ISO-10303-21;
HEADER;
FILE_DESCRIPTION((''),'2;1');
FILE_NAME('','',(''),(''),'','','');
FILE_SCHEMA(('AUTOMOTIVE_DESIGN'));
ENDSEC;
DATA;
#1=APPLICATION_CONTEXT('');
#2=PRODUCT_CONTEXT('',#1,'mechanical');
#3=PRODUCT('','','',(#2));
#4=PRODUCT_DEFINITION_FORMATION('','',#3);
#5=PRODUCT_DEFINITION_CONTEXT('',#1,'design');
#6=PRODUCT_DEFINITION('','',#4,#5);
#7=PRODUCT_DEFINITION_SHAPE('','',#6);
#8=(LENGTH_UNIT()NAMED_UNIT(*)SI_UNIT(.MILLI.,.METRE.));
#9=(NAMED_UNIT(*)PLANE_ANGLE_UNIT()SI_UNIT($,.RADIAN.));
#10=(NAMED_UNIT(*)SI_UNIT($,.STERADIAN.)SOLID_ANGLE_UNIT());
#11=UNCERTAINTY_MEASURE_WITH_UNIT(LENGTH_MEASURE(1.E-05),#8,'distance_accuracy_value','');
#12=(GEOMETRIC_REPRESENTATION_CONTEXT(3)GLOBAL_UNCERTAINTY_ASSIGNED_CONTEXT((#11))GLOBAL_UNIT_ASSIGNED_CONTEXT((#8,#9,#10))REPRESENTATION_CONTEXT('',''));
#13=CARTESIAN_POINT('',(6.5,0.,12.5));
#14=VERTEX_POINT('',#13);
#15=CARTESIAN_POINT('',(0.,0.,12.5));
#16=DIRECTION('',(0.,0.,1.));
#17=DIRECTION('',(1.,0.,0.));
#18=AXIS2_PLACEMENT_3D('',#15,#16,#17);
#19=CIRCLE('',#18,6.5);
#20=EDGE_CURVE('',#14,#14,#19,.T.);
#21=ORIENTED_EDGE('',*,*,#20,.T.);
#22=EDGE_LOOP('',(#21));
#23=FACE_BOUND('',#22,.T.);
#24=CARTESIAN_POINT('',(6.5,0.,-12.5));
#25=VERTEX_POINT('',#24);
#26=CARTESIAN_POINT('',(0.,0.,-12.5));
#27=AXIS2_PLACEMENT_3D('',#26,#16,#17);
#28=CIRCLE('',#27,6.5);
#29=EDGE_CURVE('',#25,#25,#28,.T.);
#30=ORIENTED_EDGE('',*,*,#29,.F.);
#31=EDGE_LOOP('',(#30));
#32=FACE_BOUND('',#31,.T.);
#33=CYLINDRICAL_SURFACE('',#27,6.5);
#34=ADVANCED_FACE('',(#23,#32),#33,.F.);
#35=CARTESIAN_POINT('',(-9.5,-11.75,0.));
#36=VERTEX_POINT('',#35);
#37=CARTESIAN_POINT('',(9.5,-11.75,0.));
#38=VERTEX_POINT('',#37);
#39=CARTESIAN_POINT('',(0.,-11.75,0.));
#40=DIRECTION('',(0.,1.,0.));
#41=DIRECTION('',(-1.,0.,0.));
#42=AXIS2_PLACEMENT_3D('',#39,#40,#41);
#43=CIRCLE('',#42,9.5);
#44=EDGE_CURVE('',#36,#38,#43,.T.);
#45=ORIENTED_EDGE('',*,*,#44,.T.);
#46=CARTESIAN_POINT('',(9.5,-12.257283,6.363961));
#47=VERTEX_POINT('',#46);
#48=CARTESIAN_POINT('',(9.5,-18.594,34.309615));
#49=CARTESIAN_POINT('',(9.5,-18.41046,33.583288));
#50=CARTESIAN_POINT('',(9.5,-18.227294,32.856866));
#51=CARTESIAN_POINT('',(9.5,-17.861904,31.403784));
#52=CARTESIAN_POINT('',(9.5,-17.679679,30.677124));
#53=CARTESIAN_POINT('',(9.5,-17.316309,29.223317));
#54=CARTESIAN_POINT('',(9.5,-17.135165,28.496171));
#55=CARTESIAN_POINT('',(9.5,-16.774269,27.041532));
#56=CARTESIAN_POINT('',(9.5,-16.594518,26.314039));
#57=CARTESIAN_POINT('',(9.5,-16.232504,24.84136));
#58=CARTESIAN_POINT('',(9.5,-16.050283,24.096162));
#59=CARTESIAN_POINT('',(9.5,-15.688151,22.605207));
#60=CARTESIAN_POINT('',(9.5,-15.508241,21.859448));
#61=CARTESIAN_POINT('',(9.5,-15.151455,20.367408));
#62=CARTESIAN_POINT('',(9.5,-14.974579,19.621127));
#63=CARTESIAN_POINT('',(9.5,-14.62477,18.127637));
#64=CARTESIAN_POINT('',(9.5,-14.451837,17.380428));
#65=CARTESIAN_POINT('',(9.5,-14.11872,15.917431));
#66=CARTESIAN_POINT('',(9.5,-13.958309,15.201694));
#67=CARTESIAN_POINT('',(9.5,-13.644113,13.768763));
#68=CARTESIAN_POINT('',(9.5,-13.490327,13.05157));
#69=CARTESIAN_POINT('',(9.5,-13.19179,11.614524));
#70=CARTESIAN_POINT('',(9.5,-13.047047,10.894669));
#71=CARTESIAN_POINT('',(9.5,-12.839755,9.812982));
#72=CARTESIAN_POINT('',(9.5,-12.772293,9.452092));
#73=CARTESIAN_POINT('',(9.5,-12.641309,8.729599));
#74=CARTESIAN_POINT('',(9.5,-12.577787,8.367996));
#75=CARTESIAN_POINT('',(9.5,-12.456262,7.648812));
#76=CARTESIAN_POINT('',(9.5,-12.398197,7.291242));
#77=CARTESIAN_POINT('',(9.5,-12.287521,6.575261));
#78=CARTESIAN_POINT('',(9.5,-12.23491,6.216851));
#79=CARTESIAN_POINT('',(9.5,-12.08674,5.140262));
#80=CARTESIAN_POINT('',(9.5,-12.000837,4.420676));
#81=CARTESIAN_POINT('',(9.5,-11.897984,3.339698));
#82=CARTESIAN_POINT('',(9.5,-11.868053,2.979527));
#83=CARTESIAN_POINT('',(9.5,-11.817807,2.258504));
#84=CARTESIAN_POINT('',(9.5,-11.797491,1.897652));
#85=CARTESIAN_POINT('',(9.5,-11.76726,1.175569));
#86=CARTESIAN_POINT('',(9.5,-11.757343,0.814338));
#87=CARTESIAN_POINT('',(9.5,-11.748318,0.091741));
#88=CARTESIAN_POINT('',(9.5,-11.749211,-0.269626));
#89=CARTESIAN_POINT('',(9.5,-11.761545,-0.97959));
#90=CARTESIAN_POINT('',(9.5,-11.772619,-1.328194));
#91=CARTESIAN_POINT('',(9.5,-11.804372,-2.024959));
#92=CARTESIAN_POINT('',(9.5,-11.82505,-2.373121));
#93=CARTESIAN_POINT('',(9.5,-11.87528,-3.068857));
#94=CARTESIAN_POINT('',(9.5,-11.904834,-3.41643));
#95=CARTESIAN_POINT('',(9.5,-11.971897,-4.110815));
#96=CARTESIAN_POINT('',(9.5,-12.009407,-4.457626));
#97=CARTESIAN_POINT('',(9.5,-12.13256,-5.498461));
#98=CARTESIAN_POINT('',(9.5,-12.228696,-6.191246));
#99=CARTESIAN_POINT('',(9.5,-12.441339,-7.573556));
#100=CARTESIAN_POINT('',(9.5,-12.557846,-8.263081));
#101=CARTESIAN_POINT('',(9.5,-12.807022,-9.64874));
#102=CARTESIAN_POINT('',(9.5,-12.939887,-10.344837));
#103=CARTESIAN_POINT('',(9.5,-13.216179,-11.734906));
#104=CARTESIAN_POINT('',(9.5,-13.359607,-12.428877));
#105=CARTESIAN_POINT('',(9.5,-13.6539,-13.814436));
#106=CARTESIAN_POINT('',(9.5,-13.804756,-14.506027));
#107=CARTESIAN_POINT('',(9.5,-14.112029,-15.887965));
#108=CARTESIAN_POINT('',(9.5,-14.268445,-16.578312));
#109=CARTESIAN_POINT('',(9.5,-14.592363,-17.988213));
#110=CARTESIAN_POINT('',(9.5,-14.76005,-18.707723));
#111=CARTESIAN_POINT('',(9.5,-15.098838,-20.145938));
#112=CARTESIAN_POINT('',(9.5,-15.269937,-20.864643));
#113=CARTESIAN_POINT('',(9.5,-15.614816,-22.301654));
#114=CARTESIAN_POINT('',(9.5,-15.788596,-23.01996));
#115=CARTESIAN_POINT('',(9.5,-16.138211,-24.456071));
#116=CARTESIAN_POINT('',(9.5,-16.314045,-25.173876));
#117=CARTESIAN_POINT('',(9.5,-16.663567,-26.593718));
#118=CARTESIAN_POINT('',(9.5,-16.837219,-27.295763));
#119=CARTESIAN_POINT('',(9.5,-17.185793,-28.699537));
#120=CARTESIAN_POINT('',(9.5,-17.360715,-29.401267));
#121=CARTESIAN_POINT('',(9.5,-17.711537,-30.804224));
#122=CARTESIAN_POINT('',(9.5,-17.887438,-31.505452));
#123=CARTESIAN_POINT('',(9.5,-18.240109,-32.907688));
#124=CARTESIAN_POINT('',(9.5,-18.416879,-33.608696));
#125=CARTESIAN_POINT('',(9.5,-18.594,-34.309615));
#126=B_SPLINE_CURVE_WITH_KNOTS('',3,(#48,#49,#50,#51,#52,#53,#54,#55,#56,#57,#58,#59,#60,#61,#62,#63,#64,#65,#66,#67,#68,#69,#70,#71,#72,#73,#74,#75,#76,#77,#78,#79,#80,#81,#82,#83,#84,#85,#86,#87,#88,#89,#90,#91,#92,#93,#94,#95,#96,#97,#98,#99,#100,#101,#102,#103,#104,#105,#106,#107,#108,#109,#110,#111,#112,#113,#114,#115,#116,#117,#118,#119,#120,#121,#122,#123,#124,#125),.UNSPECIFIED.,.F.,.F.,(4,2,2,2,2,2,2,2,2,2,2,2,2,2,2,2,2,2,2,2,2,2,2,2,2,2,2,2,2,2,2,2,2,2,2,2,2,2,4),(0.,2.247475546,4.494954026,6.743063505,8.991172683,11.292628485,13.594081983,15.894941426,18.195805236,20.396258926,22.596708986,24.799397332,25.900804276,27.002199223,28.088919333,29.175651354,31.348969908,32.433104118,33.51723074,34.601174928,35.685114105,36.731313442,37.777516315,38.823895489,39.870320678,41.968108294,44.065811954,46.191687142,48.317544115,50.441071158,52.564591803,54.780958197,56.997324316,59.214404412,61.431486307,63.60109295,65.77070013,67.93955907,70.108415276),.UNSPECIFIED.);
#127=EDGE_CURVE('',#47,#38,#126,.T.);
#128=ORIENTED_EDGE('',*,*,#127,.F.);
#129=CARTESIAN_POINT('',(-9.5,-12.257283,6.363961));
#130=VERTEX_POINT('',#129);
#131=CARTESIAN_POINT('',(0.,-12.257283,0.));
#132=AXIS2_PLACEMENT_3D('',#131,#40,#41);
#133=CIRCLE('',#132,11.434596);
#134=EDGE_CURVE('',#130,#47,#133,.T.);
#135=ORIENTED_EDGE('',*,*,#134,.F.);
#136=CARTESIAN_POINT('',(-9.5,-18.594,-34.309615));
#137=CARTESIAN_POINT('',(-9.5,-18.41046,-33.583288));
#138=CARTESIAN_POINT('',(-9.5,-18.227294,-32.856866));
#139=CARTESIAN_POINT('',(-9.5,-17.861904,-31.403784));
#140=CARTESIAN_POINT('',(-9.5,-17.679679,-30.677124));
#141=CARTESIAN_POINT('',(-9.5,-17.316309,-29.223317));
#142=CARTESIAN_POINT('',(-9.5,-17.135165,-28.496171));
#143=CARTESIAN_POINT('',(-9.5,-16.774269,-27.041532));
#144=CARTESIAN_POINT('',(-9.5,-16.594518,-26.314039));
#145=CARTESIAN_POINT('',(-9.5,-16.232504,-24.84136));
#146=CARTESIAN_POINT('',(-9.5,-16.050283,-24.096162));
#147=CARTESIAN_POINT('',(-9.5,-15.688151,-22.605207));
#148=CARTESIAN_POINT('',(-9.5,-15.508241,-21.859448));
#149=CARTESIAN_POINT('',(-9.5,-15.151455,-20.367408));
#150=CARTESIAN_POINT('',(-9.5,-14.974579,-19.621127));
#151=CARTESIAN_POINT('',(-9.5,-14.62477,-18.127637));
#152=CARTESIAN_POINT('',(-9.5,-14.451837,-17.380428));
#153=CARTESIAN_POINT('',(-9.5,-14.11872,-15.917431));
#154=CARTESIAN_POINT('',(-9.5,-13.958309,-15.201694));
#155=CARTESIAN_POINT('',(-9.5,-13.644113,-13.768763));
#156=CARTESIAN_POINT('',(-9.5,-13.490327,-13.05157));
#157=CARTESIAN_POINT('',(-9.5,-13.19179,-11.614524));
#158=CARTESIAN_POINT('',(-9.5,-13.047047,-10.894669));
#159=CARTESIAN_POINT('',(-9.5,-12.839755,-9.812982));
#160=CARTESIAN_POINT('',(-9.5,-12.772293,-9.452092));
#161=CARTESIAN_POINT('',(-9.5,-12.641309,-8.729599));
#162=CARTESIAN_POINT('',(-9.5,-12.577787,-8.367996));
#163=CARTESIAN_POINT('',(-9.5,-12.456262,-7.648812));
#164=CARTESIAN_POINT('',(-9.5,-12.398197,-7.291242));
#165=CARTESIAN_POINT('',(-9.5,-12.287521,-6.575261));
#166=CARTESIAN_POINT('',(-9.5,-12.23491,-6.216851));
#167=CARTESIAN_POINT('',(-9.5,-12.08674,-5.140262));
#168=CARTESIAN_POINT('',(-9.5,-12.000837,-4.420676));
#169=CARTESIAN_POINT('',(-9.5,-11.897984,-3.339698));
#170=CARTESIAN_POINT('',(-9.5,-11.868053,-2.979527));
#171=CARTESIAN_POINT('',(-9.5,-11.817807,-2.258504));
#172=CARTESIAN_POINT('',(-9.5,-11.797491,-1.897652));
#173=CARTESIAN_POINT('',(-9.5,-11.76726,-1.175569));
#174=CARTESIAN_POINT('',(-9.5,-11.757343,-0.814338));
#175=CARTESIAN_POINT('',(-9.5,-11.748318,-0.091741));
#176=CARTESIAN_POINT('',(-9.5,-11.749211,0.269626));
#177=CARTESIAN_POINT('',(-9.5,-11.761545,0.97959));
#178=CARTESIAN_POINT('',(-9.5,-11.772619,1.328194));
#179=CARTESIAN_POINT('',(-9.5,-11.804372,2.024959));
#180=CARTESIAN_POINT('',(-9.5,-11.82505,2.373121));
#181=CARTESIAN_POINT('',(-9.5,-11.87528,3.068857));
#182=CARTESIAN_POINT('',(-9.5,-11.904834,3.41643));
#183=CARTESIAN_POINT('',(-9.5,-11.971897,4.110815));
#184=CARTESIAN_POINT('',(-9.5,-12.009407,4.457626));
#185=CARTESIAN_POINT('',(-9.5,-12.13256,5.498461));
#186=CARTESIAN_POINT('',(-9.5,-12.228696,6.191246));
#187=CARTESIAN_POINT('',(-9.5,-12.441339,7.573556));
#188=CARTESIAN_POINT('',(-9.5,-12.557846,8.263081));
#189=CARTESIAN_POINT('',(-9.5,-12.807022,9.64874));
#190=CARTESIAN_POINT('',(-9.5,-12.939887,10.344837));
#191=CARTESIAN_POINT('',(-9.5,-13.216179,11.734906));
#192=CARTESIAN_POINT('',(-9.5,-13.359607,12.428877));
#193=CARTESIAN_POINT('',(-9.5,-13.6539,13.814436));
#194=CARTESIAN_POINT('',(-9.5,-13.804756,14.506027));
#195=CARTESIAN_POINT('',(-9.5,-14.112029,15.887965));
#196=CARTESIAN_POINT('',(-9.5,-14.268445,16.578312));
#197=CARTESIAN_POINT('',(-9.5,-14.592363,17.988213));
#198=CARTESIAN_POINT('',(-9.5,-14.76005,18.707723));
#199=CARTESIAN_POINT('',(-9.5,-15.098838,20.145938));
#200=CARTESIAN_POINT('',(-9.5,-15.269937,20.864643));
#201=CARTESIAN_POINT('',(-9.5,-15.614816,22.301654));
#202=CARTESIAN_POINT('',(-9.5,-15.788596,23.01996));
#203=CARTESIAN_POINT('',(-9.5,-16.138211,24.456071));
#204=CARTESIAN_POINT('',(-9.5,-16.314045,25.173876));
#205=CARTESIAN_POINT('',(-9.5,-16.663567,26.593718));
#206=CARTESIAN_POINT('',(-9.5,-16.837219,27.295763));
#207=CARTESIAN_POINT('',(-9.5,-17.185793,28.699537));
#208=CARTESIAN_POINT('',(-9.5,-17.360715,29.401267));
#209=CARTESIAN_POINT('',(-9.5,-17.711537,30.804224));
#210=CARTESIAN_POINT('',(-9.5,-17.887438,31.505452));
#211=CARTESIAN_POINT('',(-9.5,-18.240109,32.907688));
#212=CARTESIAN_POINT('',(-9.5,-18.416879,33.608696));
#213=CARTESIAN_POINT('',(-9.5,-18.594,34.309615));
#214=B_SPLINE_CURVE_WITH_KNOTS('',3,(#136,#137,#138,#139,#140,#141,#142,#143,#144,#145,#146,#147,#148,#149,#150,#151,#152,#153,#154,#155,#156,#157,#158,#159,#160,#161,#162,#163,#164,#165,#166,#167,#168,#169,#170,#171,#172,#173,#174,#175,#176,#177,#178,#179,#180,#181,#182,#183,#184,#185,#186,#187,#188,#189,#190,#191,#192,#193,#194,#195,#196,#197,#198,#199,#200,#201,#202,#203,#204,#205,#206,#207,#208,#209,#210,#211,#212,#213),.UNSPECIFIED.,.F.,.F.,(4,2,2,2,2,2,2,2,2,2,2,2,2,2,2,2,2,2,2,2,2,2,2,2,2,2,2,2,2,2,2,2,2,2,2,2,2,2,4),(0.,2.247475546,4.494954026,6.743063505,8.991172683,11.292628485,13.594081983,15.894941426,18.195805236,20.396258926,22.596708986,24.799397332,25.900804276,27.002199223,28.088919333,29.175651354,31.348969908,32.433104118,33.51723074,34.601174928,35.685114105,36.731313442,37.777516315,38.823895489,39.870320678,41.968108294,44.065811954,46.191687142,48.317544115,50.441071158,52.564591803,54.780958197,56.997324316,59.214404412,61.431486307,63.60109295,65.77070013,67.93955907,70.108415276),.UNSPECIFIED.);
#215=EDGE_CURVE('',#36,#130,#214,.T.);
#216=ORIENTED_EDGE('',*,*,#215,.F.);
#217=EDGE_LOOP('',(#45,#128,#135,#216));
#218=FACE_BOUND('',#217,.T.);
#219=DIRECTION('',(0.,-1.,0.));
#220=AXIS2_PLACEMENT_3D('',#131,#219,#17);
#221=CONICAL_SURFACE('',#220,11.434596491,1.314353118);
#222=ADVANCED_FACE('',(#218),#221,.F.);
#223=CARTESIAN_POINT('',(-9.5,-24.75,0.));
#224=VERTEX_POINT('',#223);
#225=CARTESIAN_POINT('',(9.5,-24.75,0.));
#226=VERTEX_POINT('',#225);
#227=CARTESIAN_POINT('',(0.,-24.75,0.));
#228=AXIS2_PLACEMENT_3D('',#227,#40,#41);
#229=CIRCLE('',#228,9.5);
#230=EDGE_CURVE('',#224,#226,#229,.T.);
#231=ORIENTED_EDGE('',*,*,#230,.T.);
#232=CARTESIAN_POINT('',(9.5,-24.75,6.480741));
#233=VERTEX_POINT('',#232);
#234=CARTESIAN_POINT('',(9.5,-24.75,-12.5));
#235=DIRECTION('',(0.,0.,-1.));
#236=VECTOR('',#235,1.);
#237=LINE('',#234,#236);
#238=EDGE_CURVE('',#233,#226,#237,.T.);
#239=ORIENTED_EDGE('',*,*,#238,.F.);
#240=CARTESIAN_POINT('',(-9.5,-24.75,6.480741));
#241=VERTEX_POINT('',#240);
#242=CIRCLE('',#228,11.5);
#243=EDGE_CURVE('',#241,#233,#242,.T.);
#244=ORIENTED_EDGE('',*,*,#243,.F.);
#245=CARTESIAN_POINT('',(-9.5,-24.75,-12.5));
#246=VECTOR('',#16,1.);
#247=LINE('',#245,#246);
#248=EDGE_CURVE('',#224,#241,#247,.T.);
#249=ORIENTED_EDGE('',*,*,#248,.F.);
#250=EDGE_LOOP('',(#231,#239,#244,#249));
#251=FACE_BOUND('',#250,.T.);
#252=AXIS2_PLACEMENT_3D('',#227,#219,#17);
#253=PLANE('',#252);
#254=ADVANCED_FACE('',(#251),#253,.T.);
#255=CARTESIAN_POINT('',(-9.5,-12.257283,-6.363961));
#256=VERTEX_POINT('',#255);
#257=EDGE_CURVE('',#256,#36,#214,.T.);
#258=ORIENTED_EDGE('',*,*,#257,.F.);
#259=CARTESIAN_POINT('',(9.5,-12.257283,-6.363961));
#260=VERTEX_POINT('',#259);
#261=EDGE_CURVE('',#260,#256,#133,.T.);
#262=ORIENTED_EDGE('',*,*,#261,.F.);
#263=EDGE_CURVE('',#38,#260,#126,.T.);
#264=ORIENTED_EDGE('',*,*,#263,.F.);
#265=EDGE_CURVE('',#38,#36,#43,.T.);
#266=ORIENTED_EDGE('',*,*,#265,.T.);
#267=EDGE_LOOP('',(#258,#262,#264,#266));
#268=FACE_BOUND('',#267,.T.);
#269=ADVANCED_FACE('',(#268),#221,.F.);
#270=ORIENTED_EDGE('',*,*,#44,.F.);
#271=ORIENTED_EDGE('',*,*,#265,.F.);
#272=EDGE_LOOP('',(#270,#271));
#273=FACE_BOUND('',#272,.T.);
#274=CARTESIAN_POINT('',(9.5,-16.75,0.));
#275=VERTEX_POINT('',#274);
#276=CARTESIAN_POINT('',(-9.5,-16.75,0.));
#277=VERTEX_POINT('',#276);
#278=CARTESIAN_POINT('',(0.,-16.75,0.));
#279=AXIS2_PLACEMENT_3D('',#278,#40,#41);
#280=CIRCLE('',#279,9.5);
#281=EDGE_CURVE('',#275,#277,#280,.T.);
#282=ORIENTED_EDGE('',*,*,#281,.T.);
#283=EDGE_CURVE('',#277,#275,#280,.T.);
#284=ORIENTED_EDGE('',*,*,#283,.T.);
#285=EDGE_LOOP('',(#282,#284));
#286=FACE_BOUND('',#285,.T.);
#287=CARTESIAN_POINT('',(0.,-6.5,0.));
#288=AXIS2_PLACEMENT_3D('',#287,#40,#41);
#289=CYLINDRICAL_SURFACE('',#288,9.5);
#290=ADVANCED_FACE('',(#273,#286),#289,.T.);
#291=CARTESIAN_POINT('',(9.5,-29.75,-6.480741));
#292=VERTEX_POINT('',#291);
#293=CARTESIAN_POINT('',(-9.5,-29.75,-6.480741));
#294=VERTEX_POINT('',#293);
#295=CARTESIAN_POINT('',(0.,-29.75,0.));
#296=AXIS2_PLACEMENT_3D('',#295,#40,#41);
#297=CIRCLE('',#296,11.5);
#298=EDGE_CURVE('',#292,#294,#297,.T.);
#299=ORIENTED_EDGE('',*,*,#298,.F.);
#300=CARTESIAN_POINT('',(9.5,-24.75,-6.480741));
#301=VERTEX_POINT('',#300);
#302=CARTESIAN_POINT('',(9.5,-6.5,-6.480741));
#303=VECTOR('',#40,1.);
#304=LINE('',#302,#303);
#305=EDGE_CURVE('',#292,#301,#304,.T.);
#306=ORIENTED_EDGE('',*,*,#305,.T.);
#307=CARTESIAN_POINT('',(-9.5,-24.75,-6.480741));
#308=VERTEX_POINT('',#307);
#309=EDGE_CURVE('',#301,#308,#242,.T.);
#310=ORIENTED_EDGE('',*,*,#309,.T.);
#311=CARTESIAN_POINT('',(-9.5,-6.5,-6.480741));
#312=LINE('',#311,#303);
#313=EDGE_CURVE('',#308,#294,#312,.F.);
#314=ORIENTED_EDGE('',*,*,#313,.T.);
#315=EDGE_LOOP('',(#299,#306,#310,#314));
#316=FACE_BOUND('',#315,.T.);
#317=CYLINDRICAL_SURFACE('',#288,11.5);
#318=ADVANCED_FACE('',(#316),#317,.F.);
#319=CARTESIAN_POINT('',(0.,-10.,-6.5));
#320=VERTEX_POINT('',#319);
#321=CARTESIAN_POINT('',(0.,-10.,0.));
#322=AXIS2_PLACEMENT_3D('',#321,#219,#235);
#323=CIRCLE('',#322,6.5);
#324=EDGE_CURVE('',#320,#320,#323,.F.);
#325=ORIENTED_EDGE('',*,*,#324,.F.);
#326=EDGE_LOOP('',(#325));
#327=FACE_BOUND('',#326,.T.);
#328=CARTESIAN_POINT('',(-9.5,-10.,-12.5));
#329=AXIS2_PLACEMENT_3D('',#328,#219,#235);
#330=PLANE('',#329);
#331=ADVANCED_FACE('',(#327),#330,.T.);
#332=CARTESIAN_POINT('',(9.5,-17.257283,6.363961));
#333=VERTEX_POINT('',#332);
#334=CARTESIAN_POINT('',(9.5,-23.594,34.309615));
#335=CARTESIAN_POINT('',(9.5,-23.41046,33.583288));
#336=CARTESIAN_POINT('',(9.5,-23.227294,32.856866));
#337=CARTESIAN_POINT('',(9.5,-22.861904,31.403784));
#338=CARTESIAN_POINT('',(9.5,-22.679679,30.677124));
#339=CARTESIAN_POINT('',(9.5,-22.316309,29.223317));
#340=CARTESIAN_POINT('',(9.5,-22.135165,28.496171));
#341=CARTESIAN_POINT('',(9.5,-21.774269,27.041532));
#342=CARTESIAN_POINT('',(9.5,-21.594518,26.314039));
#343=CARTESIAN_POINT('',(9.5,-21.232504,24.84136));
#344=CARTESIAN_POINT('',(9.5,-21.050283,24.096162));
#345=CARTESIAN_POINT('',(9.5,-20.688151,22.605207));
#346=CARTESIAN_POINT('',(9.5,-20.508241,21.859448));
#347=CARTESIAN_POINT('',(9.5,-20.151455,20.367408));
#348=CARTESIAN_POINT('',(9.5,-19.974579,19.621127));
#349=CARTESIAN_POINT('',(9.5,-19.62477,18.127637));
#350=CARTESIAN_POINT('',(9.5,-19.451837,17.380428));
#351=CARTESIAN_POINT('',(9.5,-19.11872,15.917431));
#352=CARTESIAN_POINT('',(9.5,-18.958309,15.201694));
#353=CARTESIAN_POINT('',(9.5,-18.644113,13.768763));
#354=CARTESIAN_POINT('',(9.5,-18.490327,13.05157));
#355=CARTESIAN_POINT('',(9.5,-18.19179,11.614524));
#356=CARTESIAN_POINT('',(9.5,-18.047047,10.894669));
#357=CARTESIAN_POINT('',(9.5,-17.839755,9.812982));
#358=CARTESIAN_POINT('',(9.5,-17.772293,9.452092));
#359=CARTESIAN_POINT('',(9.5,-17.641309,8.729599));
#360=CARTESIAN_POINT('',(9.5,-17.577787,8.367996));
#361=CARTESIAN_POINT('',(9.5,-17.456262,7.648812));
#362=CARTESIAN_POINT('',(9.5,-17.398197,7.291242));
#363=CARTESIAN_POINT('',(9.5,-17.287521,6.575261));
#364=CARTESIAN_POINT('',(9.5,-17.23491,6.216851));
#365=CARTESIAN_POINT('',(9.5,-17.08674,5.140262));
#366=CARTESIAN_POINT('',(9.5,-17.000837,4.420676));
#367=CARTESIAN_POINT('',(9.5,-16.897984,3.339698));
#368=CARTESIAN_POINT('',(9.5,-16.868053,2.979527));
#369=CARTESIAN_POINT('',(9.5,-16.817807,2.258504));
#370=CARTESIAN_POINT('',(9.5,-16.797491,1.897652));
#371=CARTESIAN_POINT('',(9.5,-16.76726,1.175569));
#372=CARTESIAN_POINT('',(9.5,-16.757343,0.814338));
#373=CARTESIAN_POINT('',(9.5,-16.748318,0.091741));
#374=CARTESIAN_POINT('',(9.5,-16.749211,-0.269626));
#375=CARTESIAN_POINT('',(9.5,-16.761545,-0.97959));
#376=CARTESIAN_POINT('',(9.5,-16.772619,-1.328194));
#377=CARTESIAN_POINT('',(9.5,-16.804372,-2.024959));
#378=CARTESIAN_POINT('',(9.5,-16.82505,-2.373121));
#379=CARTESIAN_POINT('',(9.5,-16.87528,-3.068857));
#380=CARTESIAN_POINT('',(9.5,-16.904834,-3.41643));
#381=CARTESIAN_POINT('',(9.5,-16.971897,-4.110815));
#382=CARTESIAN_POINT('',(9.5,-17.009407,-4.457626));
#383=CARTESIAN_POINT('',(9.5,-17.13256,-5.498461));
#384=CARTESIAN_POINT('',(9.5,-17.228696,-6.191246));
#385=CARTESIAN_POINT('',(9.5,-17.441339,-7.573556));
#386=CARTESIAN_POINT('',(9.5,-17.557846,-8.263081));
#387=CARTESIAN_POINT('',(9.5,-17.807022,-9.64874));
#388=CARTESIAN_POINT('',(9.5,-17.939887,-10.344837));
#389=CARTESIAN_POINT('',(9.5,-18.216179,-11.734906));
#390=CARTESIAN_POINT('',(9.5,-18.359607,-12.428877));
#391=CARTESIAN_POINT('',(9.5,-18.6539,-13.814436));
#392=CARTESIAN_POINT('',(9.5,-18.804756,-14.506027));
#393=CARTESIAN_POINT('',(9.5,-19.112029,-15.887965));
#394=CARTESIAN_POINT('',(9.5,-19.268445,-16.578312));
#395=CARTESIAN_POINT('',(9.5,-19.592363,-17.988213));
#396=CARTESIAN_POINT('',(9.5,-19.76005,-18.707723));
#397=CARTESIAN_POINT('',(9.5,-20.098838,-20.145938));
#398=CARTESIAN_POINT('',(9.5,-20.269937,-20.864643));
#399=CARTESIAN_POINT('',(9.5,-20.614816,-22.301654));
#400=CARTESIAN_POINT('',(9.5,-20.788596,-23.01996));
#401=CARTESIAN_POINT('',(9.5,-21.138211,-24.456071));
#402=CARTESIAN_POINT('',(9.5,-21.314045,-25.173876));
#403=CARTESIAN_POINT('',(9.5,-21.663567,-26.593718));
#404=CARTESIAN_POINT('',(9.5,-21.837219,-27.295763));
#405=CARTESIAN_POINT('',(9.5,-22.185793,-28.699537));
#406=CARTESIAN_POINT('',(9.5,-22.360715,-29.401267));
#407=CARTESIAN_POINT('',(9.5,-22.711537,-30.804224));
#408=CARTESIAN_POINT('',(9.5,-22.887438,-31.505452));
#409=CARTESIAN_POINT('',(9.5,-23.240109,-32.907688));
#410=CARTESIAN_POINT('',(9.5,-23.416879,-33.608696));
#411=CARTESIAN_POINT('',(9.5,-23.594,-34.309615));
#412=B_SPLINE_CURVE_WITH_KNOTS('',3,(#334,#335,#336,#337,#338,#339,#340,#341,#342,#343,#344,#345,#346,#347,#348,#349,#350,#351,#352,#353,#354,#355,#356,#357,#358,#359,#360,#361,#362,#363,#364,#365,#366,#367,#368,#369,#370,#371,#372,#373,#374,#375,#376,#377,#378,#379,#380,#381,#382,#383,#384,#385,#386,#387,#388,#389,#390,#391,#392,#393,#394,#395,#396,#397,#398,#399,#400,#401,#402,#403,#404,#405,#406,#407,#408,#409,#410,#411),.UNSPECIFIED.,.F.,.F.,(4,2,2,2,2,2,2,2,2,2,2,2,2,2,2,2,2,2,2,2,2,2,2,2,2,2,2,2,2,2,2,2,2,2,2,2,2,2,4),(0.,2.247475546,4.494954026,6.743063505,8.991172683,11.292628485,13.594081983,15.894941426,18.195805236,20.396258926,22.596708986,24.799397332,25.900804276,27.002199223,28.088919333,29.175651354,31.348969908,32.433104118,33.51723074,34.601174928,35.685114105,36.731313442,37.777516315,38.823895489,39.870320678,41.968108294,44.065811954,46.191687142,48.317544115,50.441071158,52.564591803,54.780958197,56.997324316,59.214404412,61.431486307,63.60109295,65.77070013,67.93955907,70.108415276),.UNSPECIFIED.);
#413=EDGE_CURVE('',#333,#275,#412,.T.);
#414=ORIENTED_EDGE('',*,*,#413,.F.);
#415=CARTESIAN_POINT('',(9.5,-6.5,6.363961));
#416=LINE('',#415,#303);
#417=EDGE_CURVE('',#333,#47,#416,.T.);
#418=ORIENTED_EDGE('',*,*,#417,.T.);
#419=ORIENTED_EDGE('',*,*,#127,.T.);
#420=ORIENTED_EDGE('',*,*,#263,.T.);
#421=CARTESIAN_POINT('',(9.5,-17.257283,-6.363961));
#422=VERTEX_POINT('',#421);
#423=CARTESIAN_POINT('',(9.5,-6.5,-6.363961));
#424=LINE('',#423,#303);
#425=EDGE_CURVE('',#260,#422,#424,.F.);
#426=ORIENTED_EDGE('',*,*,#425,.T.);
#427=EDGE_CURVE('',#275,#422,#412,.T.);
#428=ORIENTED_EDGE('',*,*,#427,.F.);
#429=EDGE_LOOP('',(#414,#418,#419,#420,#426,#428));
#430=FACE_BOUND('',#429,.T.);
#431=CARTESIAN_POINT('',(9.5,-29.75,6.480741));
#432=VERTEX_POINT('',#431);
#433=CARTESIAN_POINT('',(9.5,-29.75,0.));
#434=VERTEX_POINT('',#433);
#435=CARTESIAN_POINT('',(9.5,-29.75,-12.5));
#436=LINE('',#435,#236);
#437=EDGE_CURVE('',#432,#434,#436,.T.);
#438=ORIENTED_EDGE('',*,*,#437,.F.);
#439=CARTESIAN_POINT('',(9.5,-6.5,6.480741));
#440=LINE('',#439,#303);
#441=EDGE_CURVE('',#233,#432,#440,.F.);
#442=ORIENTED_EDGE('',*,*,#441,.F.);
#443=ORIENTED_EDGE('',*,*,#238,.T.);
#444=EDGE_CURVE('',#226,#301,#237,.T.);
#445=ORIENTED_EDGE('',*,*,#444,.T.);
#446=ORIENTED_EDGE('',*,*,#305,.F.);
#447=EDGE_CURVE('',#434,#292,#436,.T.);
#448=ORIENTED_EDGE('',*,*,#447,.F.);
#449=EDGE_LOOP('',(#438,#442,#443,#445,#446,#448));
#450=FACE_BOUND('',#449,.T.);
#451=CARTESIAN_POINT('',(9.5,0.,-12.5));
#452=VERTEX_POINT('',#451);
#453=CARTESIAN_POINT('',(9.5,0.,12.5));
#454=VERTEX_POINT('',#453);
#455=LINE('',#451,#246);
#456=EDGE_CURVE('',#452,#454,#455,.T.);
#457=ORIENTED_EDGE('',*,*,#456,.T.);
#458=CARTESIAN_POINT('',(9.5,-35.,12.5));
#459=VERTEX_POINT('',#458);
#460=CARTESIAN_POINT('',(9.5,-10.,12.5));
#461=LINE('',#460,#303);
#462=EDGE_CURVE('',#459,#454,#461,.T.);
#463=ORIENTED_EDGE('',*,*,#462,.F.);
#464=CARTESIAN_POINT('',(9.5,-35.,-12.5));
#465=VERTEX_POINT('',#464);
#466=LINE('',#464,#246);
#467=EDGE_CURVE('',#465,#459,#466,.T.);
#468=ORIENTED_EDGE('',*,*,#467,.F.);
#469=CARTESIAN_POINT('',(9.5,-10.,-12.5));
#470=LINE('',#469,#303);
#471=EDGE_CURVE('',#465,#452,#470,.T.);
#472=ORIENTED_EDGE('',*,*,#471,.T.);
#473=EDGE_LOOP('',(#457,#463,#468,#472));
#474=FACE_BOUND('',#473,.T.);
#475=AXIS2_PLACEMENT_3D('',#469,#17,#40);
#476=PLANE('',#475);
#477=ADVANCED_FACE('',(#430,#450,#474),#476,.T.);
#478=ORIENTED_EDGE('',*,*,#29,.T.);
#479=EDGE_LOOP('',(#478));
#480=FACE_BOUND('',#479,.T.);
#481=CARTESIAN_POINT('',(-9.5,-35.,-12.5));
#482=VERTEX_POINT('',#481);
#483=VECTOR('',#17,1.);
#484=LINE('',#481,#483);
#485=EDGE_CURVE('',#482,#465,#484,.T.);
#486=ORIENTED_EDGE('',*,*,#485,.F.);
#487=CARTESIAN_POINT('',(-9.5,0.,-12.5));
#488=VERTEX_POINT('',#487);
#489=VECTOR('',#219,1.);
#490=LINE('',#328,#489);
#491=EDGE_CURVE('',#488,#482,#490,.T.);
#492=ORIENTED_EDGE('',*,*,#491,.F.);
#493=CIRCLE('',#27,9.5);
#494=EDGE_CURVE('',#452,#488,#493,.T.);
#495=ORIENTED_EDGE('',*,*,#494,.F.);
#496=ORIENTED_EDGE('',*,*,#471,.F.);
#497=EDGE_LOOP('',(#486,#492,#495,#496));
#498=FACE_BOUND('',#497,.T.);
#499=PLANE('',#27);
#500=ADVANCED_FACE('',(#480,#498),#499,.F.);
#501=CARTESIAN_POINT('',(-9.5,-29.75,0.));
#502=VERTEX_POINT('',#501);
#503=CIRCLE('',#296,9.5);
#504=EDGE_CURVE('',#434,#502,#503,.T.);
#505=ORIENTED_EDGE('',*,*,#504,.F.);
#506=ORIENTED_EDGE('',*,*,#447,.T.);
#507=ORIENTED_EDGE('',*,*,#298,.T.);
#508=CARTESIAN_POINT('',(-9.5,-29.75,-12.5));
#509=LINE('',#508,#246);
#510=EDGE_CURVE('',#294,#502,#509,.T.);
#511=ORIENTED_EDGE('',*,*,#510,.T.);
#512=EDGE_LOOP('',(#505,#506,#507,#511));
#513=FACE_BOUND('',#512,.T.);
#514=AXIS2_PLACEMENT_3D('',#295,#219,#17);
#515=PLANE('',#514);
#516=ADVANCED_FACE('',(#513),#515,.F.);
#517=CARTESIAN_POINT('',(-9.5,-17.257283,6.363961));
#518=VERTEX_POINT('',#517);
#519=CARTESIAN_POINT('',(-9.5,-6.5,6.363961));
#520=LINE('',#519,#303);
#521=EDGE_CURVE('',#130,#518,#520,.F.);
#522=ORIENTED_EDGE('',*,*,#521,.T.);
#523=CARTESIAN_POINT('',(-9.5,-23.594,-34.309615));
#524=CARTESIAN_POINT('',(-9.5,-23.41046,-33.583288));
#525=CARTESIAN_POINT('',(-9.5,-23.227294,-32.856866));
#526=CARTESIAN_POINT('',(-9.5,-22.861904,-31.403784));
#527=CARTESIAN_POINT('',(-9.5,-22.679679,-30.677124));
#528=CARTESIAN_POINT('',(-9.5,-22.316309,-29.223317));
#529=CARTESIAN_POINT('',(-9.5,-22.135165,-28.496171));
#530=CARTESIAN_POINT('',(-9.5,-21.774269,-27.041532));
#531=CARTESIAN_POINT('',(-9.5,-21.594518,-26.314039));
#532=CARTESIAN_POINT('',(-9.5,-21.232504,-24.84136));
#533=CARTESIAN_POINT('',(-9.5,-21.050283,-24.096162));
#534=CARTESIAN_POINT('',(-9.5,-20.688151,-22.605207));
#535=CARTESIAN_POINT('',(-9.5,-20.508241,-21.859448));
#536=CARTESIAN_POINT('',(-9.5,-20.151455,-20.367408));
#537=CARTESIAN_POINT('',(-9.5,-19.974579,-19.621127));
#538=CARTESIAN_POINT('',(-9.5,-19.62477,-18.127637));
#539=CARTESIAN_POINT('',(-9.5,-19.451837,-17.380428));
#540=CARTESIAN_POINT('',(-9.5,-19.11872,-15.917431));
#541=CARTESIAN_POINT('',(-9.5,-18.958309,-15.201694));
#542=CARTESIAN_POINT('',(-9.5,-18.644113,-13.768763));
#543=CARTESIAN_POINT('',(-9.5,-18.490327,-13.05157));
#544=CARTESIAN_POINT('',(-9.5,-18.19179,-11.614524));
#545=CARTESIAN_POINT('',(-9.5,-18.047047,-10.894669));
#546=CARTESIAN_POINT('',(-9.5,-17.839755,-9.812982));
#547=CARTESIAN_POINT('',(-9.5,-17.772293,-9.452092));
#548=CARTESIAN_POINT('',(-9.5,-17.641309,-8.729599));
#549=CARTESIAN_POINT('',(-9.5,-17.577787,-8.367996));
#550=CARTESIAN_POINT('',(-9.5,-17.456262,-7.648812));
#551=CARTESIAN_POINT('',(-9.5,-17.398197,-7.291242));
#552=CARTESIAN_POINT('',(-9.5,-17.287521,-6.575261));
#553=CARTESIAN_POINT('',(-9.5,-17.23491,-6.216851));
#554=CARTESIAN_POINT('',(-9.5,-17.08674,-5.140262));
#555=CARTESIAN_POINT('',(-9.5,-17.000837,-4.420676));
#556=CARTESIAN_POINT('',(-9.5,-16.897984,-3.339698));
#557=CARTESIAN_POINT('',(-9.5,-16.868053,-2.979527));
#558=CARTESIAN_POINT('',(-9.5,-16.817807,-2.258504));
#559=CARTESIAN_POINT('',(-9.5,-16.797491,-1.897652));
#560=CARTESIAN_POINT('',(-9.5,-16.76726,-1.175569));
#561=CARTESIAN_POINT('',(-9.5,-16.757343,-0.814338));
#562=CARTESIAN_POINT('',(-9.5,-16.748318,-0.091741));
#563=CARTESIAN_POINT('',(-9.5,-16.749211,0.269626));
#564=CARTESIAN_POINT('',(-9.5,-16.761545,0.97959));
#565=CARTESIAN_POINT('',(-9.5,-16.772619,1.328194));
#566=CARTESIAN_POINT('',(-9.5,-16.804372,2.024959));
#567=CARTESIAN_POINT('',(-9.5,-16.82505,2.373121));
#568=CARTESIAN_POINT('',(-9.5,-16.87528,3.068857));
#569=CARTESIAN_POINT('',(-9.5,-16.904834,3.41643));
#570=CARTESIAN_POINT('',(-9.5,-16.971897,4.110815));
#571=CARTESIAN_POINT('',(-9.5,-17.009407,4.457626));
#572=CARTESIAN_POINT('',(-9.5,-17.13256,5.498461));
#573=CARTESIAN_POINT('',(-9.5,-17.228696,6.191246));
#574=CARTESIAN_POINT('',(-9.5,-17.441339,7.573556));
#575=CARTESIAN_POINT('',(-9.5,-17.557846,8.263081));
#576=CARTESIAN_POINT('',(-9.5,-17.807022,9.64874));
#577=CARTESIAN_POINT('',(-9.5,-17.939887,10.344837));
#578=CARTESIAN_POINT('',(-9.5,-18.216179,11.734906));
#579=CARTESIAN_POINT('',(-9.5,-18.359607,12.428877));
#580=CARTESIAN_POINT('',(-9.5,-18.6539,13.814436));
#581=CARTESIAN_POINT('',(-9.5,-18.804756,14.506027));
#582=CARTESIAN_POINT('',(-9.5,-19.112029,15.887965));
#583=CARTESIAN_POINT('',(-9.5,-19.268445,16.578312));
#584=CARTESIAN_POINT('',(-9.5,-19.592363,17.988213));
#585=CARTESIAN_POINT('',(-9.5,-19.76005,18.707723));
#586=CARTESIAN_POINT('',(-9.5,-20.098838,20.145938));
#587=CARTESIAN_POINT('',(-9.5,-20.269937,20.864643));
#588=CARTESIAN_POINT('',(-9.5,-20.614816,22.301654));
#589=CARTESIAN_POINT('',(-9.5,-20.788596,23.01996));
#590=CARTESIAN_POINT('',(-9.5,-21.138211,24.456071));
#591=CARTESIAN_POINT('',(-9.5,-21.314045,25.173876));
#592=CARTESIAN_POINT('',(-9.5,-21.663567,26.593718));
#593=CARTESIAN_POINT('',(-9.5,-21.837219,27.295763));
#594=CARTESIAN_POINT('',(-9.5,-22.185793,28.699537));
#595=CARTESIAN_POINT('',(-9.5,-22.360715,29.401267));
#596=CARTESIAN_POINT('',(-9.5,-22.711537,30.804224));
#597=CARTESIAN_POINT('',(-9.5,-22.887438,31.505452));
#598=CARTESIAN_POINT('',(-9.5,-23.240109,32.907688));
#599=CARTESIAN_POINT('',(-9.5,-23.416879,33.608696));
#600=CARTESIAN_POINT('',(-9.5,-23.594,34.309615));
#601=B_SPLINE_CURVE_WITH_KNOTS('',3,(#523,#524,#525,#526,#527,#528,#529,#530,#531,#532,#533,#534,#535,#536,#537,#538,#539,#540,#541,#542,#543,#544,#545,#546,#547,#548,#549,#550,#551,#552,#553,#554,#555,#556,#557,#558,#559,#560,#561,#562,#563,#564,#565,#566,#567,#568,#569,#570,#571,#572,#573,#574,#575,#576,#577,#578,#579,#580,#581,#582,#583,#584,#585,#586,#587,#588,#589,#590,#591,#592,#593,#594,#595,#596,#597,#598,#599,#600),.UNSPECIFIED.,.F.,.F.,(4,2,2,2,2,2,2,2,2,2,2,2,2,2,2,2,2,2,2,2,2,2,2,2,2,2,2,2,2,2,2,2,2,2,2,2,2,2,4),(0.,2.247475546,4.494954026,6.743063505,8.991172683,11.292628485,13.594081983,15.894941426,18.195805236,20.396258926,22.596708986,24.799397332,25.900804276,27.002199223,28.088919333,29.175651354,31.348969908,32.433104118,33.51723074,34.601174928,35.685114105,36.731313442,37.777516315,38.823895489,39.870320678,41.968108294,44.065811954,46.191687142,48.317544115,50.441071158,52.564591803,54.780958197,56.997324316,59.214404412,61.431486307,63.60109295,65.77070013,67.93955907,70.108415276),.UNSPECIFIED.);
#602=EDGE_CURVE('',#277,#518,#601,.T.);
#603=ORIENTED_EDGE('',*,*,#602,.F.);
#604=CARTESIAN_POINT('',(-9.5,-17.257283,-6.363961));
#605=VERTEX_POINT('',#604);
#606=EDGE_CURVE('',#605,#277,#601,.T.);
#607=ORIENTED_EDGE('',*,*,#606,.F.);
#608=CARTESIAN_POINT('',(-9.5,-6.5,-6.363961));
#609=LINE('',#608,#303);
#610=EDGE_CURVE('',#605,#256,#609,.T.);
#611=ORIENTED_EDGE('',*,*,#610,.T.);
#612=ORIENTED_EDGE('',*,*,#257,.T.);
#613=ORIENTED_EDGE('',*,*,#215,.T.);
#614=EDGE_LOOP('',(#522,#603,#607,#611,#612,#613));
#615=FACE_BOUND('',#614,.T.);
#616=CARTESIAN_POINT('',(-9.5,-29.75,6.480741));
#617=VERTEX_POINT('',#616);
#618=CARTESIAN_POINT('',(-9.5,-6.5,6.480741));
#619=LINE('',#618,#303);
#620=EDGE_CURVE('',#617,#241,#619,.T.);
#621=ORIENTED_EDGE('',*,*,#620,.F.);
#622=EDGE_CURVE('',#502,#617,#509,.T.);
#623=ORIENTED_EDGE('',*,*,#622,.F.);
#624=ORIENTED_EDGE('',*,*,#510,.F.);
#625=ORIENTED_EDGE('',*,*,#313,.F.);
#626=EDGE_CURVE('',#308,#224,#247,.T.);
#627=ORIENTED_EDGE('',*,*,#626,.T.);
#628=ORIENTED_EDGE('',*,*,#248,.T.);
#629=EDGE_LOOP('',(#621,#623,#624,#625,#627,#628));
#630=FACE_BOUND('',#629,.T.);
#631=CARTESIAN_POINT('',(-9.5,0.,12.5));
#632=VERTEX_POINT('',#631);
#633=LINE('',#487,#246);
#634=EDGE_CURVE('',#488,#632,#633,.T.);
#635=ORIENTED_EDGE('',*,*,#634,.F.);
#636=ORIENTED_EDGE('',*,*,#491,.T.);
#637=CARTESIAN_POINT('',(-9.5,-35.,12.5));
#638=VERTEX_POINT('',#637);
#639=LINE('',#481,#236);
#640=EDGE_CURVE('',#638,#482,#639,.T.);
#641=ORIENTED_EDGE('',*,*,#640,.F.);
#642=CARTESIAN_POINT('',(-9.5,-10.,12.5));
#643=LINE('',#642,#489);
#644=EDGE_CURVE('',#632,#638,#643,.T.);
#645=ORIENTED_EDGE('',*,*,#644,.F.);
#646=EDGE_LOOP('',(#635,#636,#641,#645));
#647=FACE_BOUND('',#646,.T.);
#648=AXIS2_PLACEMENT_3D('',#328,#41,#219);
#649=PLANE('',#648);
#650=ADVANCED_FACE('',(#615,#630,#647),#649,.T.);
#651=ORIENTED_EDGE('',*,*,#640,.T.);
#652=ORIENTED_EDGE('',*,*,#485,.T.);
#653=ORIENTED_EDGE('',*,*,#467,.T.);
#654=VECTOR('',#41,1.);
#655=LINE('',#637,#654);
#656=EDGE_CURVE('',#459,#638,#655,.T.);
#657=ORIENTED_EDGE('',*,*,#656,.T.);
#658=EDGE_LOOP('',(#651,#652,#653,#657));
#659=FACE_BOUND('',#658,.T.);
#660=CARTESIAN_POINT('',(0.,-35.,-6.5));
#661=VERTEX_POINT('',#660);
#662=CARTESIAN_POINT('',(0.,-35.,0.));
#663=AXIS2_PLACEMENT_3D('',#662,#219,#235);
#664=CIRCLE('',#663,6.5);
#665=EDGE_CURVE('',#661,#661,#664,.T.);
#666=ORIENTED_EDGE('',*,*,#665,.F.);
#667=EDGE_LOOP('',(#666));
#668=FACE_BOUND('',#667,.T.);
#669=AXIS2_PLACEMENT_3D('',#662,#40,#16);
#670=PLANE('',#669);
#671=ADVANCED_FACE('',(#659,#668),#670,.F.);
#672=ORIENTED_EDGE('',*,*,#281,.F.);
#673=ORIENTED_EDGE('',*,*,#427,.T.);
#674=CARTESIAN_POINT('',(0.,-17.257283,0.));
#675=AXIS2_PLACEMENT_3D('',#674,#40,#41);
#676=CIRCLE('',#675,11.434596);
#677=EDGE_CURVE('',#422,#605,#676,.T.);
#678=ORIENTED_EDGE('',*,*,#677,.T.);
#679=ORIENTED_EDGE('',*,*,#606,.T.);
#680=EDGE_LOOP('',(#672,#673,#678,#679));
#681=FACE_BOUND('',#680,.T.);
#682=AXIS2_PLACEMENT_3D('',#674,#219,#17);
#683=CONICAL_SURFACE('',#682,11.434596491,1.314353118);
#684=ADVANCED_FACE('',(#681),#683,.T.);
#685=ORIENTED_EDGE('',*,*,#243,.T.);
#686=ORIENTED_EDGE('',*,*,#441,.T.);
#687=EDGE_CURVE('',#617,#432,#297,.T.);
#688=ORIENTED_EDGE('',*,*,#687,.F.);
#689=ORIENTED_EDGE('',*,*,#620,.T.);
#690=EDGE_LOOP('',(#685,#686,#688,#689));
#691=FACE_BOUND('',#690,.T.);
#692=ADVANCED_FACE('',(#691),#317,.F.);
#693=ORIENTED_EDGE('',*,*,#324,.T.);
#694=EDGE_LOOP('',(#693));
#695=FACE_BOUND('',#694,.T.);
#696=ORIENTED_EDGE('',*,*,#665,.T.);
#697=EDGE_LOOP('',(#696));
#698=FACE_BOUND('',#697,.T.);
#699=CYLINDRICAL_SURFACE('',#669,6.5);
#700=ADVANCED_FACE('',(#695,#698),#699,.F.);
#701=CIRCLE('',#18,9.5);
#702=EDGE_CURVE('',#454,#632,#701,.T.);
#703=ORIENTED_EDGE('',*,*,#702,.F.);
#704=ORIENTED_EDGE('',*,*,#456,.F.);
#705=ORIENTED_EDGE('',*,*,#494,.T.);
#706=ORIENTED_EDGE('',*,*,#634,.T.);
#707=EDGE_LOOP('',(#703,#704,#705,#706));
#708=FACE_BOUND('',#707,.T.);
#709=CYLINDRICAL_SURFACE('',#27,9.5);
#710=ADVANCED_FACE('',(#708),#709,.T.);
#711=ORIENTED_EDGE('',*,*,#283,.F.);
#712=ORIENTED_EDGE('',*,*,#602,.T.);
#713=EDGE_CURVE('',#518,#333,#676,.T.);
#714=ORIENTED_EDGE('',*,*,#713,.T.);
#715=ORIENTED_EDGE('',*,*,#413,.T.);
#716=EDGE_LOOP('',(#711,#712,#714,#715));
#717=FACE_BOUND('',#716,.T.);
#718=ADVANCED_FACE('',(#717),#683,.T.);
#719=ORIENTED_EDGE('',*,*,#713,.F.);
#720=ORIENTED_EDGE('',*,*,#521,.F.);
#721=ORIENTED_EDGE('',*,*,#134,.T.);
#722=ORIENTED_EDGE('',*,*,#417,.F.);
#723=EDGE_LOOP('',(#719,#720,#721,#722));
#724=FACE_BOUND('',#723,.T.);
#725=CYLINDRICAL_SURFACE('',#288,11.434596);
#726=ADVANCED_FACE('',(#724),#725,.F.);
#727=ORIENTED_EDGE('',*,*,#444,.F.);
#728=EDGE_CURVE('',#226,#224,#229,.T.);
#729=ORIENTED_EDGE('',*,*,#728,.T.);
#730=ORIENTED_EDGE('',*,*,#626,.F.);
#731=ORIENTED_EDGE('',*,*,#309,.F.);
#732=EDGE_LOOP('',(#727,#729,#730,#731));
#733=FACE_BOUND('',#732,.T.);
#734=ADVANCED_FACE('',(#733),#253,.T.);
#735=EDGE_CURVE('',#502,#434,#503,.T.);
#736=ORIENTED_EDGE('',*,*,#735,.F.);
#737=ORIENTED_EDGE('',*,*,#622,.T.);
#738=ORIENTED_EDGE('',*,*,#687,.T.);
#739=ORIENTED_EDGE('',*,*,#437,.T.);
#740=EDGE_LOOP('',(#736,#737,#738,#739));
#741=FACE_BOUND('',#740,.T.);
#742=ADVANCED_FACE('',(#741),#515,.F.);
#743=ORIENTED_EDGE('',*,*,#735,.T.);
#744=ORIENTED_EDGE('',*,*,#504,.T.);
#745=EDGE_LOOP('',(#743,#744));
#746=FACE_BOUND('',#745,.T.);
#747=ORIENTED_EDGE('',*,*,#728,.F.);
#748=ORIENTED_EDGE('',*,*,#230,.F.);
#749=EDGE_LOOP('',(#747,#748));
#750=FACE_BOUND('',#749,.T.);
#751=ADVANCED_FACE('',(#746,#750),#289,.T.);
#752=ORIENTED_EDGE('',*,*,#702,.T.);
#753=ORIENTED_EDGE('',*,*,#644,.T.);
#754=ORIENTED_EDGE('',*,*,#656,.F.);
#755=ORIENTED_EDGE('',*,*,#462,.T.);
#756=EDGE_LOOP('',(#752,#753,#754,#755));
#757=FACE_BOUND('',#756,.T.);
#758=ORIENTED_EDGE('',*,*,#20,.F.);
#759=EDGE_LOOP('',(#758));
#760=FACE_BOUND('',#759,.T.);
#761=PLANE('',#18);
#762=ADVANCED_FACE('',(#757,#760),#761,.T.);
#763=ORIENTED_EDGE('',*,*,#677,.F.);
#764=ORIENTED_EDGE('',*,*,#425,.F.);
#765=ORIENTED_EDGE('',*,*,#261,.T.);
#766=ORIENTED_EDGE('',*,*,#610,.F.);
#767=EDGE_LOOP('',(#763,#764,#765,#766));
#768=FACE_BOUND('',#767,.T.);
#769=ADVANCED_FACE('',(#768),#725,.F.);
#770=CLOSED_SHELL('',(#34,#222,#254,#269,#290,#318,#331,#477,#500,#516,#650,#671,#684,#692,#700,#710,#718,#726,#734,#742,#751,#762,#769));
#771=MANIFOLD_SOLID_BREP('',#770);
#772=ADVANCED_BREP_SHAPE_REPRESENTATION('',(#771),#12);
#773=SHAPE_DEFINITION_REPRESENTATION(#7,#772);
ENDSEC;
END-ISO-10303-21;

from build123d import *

# Parameters (mm, degrees)
CROQUIS1_R              = 6.5
SALIENTE_EXTRUIR1_DEPTH = 12.5
CROQUIS3_W              = 19
CROQUIS3_H              = 25
CROQUIS3_R              = 6.5
SALIENTE_EXTRUIR2_DEPTH = 25
CROQUIS8_W              = 2
CROQUIS8_H              = 5


with BuildPart() as part:
    # Croquis1 → Saliente-Extruir1 (new body, symmetric)
    with BuildSketch(Plane.XY):
        with BuildLine():
            Line((-9.5, -10), (9.5, -10))
            Line((9.5, -10), (9.5, 0))
            ThreePointArc((9.5, 0), (0, 9.5), (-9.5, 0))
            Line((-9.5, 0), (-9.5, -10))
        make_face()
        Circle(CROQUIS1_R, mode=Mode.SUBTRACT)
    extrude(amount=SALIENTE_EXTRUIR1_DEPTH, both=True)

    # Croquis3 → Saliente-Extruir2 (add)
    with BuildSketch(Plane(origin=(0, -10, 0), x_dir=(-1, 0, 0), z_dir=(0, -1, 0))):
        Rectangle(CROQUIS3_W, CROQUIS3_H)
        Circle(CROQUIS3_R, mode=Mode.SUBTRACT)
    extrude(amount=SALIENTE_EXTRUIR2_DEPTH)

    # Croquis8 → Cortar-Revolución1 (revolve, cut)
    with BuildSketch(Plane.XY):
        Polygon((-11.434596491, -17.257283371), (-11.434596491, -12.257283371), (-9.5, -11.75), (-9.5, -16.75), align=None)
        with Locations((-10.5, -27.25)):
            Rectangle(CROQUIS8_W, CROQUIS8_H)
    revolve(axis=Axis((0, -6.5, 0), (0, -1, 0)), mode=Mode.SUBTRACT)


solid = part.part
